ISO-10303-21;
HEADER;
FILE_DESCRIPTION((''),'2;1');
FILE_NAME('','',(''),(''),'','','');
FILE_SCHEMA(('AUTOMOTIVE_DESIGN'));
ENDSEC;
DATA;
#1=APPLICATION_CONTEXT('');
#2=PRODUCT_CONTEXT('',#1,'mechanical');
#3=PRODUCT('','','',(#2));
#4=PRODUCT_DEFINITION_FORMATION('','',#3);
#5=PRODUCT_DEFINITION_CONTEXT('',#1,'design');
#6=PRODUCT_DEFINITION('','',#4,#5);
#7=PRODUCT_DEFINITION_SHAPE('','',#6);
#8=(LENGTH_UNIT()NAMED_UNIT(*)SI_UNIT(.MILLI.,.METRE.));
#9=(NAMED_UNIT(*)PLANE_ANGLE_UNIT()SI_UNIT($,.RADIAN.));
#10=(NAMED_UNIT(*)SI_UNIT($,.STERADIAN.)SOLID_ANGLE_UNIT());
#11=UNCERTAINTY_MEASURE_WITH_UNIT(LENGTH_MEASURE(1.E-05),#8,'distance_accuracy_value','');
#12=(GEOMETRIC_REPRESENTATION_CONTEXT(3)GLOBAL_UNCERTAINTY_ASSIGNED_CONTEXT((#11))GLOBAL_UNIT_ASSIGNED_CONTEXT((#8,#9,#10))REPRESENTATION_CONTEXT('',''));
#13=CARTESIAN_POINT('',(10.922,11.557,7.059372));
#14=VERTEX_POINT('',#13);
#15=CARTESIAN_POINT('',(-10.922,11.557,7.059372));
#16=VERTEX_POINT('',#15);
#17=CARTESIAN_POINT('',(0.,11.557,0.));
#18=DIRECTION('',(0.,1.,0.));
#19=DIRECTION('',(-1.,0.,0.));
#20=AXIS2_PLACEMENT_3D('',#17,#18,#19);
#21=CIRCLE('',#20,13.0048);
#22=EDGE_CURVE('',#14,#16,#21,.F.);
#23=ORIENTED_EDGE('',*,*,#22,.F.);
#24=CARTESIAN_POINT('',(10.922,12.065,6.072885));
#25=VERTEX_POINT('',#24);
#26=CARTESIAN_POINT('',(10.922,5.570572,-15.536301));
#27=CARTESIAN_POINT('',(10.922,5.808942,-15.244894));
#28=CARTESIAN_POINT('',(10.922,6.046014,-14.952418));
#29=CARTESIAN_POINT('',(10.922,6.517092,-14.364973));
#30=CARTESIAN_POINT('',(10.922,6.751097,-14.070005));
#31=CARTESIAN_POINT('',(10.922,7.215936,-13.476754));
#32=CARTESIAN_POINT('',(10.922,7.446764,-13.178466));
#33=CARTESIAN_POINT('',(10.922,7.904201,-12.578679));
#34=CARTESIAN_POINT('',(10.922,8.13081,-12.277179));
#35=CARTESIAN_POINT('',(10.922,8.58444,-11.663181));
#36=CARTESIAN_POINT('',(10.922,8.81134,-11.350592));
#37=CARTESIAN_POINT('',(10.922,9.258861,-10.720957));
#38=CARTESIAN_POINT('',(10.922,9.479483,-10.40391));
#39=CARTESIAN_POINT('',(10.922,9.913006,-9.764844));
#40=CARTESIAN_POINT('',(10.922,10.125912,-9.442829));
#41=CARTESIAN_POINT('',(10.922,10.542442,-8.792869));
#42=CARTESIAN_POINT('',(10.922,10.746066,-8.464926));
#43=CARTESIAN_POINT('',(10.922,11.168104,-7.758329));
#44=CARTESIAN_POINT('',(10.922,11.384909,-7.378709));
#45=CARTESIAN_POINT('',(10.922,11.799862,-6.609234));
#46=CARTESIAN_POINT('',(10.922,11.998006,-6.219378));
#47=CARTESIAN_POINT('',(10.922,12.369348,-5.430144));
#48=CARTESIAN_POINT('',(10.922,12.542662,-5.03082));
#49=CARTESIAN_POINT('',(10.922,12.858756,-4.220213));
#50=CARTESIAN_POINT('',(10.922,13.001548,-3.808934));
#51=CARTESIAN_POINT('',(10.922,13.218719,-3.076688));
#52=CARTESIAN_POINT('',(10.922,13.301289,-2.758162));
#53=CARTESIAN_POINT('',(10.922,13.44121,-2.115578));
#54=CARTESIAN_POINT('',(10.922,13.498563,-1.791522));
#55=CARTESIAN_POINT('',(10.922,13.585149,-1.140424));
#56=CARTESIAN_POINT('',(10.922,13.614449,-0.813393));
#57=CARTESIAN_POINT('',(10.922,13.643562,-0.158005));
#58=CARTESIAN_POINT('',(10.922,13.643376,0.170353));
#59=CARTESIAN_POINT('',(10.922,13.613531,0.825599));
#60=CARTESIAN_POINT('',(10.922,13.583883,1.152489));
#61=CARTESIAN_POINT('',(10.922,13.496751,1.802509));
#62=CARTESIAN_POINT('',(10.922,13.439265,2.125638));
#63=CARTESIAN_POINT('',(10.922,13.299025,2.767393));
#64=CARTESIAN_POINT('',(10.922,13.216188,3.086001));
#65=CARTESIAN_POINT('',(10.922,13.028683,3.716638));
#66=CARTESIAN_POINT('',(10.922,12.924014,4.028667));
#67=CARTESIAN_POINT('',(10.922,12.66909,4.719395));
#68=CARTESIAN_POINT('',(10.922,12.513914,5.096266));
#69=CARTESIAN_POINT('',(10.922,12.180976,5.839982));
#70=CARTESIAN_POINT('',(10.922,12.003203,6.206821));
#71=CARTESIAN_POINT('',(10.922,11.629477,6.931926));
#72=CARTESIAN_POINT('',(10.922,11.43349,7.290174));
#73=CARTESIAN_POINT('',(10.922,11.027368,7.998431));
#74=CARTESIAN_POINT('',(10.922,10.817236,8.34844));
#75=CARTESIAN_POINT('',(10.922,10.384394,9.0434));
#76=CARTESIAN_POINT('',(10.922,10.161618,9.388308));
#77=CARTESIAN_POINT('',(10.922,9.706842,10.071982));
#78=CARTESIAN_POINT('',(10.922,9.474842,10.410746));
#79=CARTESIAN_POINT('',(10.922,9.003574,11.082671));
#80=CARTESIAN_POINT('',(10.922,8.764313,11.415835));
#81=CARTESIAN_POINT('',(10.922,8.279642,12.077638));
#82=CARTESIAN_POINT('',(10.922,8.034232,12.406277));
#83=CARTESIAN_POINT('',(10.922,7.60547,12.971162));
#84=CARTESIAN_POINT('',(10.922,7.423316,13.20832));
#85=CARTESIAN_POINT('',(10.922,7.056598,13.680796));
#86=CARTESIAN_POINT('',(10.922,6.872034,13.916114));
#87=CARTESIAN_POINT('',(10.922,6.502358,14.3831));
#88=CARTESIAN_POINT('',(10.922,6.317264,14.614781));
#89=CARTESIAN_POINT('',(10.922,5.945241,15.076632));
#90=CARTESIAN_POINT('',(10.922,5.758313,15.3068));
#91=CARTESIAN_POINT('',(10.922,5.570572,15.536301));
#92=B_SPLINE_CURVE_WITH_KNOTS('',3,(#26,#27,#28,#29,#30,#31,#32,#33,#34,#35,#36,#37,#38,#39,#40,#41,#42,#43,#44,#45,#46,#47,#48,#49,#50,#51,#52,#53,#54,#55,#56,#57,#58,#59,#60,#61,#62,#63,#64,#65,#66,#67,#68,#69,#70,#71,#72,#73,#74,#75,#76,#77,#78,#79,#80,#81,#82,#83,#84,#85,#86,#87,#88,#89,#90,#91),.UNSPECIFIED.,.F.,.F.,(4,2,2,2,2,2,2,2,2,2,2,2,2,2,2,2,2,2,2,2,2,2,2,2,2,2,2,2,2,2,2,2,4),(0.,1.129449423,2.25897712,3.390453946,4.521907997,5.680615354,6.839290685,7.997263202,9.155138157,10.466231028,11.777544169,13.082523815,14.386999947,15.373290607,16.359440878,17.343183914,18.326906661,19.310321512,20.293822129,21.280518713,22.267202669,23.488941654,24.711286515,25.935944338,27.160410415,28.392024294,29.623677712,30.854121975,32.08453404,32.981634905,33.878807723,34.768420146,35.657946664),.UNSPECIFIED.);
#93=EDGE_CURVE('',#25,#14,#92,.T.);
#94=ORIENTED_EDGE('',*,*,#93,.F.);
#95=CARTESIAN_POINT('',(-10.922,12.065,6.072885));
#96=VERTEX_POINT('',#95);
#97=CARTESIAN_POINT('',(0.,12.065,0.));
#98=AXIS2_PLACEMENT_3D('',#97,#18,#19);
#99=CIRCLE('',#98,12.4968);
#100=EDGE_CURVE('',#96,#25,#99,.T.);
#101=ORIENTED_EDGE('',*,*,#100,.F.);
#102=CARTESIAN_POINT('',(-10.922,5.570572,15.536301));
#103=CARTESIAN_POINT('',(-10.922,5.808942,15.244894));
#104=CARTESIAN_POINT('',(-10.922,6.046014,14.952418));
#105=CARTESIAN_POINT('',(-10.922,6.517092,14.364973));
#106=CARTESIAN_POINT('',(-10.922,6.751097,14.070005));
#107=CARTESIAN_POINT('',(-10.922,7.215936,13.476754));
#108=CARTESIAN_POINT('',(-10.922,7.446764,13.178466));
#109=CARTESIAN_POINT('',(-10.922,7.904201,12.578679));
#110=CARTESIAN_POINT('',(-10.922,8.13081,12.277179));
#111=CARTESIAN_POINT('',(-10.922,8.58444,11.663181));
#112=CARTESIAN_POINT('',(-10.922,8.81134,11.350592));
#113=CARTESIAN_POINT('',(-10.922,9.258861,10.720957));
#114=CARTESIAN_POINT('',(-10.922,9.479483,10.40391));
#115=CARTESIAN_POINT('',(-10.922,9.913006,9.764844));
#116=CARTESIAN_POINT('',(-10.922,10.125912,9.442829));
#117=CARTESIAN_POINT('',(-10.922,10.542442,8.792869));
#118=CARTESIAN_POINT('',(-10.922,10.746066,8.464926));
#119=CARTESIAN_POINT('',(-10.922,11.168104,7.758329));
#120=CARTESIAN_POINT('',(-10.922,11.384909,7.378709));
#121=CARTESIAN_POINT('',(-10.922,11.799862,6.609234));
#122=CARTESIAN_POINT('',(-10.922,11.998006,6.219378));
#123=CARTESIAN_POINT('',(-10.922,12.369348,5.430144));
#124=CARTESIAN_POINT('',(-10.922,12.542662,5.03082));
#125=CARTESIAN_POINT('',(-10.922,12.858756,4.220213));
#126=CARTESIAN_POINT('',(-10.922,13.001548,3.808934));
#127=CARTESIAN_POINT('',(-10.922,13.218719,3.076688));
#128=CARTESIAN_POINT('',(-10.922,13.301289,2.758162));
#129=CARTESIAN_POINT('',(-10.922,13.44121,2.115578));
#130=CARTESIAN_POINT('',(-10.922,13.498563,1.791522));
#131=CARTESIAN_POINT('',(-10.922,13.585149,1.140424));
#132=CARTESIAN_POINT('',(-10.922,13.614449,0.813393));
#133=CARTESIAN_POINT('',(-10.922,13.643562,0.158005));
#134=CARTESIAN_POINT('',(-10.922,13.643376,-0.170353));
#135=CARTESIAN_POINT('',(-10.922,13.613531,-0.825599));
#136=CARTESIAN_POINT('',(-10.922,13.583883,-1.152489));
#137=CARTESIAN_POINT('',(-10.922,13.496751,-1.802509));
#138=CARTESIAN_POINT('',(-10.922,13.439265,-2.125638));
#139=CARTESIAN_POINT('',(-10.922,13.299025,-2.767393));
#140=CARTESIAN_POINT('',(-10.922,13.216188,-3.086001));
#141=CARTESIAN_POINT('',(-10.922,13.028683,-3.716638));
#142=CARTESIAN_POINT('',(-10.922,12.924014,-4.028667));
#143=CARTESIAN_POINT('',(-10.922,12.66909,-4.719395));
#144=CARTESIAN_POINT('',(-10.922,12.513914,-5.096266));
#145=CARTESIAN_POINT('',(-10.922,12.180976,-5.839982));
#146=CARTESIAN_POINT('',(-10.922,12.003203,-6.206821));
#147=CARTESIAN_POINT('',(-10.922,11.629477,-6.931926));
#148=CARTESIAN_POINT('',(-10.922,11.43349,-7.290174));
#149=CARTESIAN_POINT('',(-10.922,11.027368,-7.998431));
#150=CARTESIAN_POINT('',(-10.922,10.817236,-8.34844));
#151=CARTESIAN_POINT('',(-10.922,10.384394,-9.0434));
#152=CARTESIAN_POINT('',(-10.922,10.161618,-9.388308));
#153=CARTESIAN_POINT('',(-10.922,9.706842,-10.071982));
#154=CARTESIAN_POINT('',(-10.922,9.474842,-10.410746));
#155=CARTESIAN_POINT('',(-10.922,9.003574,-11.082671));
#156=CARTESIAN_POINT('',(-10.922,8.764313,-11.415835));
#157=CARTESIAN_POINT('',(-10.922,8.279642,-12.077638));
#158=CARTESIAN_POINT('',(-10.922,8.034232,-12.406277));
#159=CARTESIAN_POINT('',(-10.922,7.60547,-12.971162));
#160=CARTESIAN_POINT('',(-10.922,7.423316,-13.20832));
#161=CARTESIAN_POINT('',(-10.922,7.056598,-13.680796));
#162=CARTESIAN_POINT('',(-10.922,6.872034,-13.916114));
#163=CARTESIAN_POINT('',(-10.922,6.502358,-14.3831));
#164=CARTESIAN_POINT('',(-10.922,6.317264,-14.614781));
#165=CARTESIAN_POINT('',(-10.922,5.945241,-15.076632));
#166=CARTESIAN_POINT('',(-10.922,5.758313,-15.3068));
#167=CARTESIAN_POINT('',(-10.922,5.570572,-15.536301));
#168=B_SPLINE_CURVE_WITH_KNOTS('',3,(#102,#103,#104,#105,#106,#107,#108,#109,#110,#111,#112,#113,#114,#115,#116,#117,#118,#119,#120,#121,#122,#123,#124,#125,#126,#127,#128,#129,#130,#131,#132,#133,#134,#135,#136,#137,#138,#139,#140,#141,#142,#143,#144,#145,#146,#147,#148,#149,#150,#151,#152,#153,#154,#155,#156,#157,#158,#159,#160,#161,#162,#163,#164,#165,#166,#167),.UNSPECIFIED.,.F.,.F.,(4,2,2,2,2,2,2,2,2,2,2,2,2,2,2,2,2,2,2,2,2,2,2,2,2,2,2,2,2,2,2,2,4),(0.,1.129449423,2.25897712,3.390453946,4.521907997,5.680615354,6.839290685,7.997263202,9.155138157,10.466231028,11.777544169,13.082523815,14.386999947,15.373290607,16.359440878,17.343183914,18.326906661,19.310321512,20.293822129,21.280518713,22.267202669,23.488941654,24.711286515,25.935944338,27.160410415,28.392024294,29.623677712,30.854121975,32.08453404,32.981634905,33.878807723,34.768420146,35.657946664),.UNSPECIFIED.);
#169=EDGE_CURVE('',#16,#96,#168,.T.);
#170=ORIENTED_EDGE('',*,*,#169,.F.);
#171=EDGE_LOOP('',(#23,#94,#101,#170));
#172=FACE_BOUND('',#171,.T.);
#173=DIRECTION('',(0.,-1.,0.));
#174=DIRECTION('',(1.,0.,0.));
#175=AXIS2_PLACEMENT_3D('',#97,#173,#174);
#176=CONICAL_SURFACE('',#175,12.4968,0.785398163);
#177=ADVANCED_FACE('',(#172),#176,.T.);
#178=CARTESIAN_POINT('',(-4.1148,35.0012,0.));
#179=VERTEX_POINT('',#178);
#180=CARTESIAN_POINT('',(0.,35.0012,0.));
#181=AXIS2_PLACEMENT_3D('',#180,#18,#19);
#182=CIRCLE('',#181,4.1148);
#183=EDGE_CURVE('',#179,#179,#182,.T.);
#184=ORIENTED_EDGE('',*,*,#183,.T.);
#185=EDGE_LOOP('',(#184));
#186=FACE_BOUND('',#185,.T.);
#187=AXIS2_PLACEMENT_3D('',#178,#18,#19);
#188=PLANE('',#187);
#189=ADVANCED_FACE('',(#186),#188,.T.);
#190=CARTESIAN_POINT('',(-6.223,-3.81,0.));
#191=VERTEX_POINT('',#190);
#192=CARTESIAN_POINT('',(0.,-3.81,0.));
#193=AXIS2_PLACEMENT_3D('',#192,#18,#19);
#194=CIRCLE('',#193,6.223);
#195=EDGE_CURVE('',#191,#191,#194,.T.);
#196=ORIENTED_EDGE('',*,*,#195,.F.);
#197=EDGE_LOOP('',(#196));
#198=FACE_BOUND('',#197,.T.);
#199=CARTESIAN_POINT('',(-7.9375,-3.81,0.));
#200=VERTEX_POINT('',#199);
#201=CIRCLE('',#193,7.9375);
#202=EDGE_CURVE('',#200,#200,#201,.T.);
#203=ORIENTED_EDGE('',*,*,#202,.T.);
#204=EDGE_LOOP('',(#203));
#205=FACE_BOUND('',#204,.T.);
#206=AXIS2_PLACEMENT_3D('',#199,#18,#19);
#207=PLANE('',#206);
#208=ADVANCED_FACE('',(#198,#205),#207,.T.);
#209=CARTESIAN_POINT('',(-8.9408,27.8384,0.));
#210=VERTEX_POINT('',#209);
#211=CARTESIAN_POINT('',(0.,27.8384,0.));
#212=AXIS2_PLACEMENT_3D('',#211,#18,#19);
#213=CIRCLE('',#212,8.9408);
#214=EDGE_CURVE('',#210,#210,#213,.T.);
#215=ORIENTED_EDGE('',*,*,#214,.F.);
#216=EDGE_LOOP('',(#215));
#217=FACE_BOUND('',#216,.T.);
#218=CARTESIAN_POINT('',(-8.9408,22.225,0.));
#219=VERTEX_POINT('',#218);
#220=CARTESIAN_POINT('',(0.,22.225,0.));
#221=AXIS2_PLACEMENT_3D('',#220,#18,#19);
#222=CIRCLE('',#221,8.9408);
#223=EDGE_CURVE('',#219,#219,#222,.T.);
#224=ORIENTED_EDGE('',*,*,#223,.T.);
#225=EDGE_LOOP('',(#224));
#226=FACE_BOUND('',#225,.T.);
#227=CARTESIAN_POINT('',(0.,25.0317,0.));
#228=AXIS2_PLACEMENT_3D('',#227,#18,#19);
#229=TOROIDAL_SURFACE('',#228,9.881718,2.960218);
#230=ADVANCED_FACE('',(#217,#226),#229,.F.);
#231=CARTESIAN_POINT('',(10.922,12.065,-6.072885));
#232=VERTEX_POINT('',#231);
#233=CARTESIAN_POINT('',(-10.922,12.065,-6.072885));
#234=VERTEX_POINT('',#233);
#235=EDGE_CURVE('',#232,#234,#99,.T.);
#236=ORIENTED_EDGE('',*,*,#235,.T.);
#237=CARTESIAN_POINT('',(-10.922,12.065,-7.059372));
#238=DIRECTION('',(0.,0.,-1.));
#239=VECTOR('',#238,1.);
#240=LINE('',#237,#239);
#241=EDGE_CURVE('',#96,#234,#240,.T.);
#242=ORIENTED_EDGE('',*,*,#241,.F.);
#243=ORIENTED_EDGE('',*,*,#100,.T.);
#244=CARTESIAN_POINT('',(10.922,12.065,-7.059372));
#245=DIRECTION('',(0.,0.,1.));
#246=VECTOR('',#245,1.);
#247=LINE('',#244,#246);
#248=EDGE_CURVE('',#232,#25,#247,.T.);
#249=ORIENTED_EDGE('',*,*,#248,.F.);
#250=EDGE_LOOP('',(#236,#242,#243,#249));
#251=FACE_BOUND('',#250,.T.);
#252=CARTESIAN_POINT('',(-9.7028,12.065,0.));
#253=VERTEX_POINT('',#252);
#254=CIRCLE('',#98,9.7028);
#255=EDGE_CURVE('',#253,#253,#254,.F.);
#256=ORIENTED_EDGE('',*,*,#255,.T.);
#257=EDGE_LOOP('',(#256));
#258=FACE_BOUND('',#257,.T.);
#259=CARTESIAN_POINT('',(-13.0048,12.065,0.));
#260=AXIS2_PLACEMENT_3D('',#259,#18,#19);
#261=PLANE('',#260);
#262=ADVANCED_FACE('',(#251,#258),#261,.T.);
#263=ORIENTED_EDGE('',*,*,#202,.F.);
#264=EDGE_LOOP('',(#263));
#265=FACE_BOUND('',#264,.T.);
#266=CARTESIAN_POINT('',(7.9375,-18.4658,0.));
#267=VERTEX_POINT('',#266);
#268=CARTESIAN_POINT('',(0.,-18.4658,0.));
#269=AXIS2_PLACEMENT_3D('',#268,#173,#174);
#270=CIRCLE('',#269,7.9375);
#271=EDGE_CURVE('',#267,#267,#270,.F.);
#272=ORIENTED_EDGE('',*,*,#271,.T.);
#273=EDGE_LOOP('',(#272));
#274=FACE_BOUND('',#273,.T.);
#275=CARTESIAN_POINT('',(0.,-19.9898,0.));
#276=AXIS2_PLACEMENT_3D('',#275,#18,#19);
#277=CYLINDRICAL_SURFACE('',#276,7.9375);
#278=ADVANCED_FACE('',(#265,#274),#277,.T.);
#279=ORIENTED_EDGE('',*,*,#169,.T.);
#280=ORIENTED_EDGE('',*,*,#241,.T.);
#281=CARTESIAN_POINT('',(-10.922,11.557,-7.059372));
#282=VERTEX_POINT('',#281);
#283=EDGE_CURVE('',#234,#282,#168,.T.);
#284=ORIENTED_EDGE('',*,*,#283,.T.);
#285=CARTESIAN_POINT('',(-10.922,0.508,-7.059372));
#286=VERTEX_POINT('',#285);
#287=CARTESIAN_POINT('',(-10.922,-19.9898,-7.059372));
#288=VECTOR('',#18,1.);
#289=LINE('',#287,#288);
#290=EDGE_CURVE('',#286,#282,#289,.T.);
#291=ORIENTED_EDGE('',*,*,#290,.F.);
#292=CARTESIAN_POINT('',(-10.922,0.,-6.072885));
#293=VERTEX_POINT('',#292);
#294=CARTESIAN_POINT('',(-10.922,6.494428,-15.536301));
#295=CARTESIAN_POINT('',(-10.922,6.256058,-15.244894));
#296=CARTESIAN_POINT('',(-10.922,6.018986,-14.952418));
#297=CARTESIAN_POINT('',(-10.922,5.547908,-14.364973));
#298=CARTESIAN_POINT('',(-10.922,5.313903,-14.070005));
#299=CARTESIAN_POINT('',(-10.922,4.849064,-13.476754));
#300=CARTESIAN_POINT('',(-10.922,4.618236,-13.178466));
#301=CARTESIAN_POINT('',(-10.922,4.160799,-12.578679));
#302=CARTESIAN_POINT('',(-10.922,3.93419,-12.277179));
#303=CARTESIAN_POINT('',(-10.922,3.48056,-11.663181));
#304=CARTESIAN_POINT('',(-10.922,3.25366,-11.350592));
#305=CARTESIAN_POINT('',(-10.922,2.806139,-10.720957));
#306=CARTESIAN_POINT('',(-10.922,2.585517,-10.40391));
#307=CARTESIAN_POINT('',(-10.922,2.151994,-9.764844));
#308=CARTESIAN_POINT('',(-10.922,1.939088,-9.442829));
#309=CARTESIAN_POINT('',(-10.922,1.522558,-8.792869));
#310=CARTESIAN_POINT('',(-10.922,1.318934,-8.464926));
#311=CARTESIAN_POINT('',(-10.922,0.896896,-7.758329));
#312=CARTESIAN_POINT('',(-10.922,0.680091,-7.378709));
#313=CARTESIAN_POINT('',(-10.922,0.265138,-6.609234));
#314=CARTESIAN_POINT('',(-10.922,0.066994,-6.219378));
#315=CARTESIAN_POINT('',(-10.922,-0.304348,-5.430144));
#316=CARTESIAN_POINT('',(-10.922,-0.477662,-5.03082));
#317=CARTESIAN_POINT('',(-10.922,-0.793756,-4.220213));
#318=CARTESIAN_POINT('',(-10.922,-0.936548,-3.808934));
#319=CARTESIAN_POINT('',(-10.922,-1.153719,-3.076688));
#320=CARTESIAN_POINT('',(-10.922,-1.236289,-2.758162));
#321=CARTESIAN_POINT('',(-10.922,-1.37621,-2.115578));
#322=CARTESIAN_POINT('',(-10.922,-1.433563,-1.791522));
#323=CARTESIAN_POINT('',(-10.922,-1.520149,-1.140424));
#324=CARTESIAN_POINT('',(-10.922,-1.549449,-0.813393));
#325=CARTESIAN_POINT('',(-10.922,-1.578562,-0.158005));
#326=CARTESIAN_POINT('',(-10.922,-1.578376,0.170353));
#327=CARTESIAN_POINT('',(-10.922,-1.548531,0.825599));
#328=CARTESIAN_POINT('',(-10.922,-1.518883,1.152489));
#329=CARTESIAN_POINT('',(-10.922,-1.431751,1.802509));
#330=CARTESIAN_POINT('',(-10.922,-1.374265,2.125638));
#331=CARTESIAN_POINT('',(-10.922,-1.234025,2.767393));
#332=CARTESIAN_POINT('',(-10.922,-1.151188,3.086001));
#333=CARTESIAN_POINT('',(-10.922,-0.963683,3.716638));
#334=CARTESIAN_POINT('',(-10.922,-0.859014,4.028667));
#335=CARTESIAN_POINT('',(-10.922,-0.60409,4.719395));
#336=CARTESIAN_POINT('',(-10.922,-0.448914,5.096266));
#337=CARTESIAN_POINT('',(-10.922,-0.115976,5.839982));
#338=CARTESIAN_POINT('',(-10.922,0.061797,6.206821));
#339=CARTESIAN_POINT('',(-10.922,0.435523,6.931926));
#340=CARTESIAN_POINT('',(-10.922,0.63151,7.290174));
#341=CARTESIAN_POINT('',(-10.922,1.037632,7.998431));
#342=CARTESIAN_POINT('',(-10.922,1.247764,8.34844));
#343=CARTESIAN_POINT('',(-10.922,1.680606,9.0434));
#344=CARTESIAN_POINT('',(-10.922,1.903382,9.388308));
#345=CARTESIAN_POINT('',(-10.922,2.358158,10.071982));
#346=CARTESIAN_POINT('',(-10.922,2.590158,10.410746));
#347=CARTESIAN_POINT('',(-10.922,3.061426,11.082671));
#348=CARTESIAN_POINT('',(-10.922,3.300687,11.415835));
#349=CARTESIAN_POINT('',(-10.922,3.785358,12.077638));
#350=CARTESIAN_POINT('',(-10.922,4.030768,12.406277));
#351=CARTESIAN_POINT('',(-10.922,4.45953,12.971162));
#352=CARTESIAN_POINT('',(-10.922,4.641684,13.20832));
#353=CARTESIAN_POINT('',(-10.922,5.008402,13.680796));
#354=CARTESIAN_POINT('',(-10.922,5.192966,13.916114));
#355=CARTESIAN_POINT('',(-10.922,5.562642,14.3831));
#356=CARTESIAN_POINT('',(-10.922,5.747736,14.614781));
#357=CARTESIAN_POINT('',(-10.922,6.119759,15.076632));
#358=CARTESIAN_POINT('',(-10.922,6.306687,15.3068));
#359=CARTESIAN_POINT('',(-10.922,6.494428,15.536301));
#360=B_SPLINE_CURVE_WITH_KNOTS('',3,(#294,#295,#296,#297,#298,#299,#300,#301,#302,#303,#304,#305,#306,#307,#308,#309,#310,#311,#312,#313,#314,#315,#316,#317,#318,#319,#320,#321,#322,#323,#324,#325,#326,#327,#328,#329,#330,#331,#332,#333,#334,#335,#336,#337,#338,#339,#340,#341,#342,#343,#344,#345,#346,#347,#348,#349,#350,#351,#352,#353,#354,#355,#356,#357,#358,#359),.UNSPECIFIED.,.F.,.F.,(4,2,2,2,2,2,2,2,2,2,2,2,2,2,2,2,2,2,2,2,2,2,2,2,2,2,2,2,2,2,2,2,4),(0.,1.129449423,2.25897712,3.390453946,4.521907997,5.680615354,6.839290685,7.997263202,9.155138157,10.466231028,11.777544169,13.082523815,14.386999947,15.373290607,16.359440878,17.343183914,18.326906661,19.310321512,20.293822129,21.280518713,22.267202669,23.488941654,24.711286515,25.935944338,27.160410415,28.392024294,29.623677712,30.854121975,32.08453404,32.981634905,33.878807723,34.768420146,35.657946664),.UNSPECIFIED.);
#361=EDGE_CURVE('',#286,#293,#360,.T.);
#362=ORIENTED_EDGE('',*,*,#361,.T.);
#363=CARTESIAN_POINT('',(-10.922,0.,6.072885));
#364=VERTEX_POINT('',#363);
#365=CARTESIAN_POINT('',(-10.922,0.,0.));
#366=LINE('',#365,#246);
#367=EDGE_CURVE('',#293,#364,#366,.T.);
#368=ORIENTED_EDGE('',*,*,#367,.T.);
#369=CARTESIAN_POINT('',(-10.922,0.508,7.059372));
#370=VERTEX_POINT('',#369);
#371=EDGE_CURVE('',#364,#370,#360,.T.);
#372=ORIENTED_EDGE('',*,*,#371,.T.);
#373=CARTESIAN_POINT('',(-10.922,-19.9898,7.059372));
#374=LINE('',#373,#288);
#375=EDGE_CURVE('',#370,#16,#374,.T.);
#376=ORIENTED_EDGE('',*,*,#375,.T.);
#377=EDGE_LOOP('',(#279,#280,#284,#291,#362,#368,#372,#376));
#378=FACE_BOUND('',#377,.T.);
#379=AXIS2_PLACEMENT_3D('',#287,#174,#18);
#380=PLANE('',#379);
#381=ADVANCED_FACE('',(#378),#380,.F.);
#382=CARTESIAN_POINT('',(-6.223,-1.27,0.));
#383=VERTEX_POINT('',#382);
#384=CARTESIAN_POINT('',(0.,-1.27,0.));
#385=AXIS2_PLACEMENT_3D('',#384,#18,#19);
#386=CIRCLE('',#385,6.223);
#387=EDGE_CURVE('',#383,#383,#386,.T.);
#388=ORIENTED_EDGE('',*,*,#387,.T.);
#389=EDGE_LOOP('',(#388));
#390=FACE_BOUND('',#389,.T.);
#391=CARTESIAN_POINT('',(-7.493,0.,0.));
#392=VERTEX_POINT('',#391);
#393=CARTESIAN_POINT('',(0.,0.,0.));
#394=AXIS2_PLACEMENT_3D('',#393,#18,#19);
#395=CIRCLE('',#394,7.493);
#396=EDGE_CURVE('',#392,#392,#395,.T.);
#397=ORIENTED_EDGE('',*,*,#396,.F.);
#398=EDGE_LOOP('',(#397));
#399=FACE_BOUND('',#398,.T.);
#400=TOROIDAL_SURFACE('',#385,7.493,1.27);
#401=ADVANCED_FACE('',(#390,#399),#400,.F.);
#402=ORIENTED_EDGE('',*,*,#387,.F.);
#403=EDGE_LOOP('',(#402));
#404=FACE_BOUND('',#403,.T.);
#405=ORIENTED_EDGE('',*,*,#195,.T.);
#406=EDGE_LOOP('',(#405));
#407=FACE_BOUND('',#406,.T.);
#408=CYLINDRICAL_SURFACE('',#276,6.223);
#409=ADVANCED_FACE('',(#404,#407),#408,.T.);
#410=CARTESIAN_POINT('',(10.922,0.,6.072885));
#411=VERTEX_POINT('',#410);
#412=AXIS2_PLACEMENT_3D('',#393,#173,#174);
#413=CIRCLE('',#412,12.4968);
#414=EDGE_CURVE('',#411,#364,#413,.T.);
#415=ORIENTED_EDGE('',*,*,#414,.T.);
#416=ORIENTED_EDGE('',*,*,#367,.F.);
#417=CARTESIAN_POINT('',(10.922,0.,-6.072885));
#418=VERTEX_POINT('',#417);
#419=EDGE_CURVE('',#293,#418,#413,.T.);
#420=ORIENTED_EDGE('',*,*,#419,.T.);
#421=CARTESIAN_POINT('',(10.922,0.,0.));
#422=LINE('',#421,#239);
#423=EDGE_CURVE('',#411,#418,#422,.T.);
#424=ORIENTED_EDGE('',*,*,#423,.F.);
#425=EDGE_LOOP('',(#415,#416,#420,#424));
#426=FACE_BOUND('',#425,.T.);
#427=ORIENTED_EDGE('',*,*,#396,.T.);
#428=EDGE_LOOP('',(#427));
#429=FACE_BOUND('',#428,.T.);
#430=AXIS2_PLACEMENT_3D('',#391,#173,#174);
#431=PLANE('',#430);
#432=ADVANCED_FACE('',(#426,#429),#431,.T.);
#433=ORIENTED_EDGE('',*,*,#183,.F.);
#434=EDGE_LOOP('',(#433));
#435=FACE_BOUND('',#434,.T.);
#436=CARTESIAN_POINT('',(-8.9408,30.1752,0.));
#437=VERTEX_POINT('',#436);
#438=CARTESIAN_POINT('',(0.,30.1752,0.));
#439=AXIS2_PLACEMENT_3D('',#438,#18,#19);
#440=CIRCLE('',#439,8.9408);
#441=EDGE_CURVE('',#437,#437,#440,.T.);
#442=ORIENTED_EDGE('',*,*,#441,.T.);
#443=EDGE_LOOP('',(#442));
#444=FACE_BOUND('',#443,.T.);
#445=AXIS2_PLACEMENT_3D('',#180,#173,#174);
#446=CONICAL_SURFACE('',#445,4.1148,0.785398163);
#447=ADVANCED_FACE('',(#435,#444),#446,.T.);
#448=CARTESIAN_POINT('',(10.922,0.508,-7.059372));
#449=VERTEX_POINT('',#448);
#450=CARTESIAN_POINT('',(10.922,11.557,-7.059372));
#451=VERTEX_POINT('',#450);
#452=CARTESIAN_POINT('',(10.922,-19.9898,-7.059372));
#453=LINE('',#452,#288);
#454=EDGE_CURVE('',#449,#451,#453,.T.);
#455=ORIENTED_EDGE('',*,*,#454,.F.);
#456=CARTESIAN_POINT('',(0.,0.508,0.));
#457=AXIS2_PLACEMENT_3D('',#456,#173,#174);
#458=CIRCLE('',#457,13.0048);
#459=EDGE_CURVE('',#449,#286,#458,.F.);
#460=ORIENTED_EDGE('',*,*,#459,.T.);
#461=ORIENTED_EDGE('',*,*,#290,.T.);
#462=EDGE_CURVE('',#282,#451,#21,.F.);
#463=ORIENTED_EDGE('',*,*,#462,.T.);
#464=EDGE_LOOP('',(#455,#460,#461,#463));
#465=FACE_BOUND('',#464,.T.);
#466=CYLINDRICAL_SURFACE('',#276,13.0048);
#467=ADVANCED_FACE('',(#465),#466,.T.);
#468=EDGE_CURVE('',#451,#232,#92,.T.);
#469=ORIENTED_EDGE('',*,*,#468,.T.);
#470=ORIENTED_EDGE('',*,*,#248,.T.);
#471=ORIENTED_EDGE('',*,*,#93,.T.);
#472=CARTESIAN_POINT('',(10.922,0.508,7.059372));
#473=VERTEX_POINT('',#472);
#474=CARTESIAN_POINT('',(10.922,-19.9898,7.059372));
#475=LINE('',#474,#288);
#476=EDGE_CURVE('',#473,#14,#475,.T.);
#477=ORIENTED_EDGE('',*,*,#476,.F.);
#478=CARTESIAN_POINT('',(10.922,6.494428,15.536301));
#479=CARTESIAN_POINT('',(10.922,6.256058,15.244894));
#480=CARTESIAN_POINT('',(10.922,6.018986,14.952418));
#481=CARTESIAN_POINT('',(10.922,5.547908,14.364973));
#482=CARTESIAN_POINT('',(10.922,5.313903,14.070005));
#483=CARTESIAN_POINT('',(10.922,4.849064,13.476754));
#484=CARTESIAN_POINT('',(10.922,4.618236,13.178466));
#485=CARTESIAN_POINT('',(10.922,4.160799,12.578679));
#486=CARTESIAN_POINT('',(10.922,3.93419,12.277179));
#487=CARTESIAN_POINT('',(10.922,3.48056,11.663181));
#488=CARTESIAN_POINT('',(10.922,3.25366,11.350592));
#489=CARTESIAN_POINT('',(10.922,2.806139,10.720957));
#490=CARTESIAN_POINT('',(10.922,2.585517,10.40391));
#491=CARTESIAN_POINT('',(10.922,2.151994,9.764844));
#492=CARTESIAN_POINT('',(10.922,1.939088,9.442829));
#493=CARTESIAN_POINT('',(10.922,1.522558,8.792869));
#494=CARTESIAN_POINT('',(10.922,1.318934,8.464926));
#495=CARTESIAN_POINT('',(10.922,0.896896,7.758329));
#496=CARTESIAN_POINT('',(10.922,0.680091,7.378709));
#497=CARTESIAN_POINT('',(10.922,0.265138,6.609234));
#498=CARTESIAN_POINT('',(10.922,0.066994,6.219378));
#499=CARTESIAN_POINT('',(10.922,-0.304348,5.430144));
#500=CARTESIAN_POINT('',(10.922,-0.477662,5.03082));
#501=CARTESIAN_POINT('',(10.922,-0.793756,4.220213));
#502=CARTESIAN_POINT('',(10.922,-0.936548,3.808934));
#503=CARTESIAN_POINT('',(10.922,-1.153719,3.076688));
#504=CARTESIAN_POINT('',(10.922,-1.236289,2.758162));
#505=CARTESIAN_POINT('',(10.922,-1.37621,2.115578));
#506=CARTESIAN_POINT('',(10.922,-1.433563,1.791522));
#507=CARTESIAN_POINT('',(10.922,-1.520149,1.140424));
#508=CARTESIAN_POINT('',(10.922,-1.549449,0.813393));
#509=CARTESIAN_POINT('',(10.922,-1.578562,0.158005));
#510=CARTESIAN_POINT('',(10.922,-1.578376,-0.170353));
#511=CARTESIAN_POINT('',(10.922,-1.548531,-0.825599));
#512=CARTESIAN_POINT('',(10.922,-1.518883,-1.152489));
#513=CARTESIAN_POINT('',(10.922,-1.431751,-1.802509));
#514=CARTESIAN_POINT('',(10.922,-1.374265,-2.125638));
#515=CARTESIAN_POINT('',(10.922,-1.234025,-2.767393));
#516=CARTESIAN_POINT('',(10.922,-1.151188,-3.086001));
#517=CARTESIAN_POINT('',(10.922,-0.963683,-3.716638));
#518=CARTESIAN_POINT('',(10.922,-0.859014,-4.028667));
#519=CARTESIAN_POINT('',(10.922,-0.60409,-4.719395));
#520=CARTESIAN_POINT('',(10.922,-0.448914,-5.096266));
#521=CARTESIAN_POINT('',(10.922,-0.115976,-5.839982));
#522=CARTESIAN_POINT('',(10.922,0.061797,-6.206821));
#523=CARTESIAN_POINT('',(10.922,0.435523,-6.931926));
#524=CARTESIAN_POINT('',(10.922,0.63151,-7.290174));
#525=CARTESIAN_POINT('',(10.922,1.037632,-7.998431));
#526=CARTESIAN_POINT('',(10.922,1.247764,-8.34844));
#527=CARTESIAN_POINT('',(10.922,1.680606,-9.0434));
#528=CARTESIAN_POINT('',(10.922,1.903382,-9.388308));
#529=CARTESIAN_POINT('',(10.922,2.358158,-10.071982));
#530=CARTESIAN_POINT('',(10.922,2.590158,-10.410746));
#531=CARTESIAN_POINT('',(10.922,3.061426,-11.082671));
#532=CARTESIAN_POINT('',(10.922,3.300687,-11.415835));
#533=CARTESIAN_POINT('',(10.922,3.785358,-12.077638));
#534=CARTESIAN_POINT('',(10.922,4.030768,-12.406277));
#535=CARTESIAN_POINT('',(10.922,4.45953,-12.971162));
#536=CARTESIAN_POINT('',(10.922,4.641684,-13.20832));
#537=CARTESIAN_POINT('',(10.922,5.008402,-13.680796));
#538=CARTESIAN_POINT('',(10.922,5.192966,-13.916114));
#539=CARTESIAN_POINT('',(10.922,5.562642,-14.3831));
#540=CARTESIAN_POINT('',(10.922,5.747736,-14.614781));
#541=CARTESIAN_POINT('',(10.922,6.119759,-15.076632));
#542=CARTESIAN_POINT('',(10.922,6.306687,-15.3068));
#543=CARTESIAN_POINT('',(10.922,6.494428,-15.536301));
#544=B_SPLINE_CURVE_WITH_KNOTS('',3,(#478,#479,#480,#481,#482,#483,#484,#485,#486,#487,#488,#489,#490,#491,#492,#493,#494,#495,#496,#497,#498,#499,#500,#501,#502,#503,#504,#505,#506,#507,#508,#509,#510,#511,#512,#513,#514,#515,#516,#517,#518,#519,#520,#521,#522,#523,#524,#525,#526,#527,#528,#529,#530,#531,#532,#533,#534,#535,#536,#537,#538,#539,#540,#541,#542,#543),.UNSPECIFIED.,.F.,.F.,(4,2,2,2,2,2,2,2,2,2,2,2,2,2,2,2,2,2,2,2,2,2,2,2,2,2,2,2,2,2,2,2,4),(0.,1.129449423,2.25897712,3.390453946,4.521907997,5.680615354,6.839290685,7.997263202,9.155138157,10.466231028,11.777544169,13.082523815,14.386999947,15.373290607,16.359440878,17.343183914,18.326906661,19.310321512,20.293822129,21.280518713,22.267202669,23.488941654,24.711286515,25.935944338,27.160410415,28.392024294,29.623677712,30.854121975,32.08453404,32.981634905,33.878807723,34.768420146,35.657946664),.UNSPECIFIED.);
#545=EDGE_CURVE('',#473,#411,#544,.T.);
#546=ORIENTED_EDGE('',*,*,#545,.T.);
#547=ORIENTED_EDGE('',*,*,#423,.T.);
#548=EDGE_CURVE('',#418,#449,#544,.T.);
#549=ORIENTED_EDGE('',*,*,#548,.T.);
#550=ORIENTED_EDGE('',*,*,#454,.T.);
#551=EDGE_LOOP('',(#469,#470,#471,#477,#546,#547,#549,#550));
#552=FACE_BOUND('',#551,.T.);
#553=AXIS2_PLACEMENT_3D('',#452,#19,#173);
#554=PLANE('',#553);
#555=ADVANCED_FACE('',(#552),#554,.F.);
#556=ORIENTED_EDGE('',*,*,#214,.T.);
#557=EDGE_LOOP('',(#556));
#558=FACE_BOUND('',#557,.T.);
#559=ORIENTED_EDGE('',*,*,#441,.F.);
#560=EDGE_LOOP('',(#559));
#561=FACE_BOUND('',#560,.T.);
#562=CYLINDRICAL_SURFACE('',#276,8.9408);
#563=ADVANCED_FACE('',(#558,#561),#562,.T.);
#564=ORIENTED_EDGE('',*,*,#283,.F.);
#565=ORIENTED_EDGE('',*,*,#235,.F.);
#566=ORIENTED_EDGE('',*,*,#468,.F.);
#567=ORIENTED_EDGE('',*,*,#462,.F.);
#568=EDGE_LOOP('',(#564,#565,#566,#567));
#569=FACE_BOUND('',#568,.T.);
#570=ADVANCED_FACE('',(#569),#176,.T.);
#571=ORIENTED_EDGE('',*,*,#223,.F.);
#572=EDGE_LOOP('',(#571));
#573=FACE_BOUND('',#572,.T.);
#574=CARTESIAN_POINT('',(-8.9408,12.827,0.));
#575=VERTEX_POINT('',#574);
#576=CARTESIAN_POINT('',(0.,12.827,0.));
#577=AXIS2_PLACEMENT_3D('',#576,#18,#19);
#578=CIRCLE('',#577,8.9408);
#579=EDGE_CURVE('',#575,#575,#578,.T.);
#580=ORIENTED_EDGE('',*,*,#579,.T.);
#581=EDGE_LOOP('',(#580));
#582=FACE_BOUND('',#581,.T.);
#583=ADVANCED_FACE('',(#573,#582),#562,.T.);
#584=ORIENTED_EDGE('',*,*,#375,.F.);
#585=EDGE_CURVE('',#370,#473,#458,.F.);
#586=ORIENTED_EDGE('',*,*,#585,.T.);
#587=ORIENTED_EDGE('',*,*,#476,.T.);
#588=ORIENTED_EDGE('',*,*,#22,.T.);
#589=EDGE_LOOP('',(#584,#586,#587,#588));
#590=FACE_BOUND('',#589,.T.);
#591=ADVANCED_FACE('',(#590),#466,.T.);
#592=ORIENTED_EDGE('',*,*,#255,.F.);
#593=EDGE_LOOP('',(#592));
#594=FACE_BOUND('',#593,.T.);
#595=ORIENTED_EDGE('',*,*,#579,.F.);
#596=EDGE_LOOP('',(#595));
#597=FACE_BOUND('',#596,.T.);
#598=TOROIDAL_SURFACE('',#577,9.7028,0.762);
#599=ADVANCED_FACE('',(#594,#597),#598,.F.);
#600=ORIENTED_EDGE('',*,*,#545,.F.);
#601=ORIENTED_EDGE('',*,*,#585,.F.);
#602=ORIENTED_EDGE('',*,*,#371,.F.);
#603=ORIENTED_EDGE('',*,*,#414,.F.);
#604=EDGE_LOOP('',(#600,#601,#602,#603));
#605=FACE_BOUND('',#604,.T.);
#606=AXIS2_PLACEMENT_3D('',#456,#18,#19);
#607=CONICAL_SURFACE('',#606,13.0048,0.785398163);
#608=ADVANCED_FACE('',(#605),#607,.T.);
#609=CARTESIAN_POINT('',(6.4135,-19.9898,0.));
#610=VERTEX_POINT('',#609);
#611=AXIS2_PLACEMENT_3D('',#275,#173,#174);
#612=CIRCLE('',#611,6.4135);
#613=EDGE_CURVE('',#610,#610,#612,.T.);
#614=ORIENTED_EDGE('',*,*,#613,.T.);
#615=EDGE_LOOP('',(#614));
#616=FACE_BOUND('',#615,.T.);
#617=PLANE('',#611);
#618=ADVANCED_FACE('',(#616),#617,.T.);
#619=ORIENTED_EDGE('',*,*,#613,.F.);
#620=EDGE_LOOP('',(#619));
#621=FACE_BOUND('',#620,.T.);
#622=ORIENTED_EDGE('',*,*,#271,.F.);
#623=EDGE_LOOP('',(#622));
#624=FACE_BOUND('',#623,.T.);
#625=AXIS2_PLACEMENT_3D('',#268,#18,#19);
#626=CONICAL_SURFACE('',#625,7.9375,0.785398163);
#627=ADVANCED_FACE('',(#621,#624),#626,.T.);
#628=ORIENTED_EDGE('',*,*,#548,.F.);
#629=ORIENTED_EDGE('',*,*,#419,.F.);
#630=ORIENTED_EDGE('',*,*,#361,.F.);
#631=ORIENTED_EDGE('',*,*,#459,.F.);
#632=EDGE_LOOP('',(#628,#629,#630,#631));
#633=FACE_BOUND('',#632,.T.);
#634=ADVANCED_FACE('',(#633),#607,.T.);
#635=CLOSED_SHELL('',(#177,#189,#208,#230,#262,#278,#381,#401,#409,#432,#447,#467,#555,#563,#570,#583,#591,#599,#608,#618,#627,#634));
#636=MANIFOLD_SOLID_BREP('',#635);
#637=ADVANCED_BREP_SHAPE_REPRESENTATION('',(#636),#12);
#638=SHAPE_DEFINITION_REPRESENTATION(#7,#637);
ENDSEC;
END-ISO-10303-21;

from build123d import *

# Parameters (mm, degrees)
CHAMFER1_SIZE      = 0.508
CHAMFER2_SIZE      = 1.524
CUT_EXTRUDE1_DEPTH = 33.0548
FILLET1_R          = 0.762


with BuildPart() as part:
    # Sketch1 → Revolve1 (revolve)
    with BuildSketch(Plane.XY):
        with BuildLine():
            Line((0, 35.0012), (0, -19.9898))
            Line((0, -19.9898), (-7.9375, -19.9898))
            Line((-7.9375, -19.9898), (-7.9375, -3.81))
            Line((-7.9375, -3.81), (-6.223, -3.81))
            Line((-6.223, -3.81), (-6.223, -1.27))
            ThreePointArc((-6.223, -1.27), (-6.594974388, -0.371974388), (-7.493, 0))
            Line((-7.493, 0), (-13.0048, 0))
            Line((-13.0048, 0), (-13.0048, 12.065))
            Line((-13.0048, 12.065), (-8.9408, 12.065))
            Line((-8.9408, 12.065), (-8.9408, 22.225))
            ThreePointArc((-8.9408, 22.225), (-6.9215, 25.0317), (-8.9408, 27.8384))
            Line((-8.9408, 27.8384), (-8.9408, 30.1752))
            Line((-8.9408, 30.1752), (-4.1148, 35.0012))
            Line((-4.1148, 35.0012), (0, 35.0012))
        make_face()
    revolve(axis=Axis((0, -19.9898, 0), (0, -1, 0)))

    # Chamfer1
    chamfer1_edges = [part.edges().sort_by_distance(p)[0] for p in [
        (13.0048, 12.065, 0),
        (13.0048, 0, 0),
    ]]
    chamfer(chamfer1_edges, length=CHAMFER1_SIZE)

    # Chamfer2
    chamfer2_edges = [part.edges().sort_by_distance(p)[0] for p in [
        (7.9375, -19.9898, 0),
    ]]
    chamfer(chamfer2_edges, length=CHAMFER2_SIZE)

    # Sketch2 → Cut-Extrude1 (cut, through all)
    with BuildSketch(Plane(origin=(0, 12.065, 0), x_dir=(1, 0, 0), z_dir=(0, 1, 0))):
        with BuildLine():
            Line((-10.922, 7.059372425), (-10.922, -7.059372425))
            ThreePointArc((-10.922, -7.059372425), (-13.0048, 0), (-10.922, 7.059372425))
        make_face()
        with BuildLine():
            Line((10.922, 7.059372425), (10.922, -7.059372425))
            ThreePointArc((10.922, -7.059372425), (13.0048, 0), (10.922, 7.059372425))
        make_face()
    extrude(amount=-CUT_EXTRUDE1_DEPTH, mode=Mode.SUBTRACT)

    # Fillet1
    fillet1_edges = [part.edges().sort_by_distance(p)[0] for p in [
        (8.9408, 12.065, 0),
    ]]
    fillet(fillet1_edges, radius=FILLET1_R)


solid = part.part
